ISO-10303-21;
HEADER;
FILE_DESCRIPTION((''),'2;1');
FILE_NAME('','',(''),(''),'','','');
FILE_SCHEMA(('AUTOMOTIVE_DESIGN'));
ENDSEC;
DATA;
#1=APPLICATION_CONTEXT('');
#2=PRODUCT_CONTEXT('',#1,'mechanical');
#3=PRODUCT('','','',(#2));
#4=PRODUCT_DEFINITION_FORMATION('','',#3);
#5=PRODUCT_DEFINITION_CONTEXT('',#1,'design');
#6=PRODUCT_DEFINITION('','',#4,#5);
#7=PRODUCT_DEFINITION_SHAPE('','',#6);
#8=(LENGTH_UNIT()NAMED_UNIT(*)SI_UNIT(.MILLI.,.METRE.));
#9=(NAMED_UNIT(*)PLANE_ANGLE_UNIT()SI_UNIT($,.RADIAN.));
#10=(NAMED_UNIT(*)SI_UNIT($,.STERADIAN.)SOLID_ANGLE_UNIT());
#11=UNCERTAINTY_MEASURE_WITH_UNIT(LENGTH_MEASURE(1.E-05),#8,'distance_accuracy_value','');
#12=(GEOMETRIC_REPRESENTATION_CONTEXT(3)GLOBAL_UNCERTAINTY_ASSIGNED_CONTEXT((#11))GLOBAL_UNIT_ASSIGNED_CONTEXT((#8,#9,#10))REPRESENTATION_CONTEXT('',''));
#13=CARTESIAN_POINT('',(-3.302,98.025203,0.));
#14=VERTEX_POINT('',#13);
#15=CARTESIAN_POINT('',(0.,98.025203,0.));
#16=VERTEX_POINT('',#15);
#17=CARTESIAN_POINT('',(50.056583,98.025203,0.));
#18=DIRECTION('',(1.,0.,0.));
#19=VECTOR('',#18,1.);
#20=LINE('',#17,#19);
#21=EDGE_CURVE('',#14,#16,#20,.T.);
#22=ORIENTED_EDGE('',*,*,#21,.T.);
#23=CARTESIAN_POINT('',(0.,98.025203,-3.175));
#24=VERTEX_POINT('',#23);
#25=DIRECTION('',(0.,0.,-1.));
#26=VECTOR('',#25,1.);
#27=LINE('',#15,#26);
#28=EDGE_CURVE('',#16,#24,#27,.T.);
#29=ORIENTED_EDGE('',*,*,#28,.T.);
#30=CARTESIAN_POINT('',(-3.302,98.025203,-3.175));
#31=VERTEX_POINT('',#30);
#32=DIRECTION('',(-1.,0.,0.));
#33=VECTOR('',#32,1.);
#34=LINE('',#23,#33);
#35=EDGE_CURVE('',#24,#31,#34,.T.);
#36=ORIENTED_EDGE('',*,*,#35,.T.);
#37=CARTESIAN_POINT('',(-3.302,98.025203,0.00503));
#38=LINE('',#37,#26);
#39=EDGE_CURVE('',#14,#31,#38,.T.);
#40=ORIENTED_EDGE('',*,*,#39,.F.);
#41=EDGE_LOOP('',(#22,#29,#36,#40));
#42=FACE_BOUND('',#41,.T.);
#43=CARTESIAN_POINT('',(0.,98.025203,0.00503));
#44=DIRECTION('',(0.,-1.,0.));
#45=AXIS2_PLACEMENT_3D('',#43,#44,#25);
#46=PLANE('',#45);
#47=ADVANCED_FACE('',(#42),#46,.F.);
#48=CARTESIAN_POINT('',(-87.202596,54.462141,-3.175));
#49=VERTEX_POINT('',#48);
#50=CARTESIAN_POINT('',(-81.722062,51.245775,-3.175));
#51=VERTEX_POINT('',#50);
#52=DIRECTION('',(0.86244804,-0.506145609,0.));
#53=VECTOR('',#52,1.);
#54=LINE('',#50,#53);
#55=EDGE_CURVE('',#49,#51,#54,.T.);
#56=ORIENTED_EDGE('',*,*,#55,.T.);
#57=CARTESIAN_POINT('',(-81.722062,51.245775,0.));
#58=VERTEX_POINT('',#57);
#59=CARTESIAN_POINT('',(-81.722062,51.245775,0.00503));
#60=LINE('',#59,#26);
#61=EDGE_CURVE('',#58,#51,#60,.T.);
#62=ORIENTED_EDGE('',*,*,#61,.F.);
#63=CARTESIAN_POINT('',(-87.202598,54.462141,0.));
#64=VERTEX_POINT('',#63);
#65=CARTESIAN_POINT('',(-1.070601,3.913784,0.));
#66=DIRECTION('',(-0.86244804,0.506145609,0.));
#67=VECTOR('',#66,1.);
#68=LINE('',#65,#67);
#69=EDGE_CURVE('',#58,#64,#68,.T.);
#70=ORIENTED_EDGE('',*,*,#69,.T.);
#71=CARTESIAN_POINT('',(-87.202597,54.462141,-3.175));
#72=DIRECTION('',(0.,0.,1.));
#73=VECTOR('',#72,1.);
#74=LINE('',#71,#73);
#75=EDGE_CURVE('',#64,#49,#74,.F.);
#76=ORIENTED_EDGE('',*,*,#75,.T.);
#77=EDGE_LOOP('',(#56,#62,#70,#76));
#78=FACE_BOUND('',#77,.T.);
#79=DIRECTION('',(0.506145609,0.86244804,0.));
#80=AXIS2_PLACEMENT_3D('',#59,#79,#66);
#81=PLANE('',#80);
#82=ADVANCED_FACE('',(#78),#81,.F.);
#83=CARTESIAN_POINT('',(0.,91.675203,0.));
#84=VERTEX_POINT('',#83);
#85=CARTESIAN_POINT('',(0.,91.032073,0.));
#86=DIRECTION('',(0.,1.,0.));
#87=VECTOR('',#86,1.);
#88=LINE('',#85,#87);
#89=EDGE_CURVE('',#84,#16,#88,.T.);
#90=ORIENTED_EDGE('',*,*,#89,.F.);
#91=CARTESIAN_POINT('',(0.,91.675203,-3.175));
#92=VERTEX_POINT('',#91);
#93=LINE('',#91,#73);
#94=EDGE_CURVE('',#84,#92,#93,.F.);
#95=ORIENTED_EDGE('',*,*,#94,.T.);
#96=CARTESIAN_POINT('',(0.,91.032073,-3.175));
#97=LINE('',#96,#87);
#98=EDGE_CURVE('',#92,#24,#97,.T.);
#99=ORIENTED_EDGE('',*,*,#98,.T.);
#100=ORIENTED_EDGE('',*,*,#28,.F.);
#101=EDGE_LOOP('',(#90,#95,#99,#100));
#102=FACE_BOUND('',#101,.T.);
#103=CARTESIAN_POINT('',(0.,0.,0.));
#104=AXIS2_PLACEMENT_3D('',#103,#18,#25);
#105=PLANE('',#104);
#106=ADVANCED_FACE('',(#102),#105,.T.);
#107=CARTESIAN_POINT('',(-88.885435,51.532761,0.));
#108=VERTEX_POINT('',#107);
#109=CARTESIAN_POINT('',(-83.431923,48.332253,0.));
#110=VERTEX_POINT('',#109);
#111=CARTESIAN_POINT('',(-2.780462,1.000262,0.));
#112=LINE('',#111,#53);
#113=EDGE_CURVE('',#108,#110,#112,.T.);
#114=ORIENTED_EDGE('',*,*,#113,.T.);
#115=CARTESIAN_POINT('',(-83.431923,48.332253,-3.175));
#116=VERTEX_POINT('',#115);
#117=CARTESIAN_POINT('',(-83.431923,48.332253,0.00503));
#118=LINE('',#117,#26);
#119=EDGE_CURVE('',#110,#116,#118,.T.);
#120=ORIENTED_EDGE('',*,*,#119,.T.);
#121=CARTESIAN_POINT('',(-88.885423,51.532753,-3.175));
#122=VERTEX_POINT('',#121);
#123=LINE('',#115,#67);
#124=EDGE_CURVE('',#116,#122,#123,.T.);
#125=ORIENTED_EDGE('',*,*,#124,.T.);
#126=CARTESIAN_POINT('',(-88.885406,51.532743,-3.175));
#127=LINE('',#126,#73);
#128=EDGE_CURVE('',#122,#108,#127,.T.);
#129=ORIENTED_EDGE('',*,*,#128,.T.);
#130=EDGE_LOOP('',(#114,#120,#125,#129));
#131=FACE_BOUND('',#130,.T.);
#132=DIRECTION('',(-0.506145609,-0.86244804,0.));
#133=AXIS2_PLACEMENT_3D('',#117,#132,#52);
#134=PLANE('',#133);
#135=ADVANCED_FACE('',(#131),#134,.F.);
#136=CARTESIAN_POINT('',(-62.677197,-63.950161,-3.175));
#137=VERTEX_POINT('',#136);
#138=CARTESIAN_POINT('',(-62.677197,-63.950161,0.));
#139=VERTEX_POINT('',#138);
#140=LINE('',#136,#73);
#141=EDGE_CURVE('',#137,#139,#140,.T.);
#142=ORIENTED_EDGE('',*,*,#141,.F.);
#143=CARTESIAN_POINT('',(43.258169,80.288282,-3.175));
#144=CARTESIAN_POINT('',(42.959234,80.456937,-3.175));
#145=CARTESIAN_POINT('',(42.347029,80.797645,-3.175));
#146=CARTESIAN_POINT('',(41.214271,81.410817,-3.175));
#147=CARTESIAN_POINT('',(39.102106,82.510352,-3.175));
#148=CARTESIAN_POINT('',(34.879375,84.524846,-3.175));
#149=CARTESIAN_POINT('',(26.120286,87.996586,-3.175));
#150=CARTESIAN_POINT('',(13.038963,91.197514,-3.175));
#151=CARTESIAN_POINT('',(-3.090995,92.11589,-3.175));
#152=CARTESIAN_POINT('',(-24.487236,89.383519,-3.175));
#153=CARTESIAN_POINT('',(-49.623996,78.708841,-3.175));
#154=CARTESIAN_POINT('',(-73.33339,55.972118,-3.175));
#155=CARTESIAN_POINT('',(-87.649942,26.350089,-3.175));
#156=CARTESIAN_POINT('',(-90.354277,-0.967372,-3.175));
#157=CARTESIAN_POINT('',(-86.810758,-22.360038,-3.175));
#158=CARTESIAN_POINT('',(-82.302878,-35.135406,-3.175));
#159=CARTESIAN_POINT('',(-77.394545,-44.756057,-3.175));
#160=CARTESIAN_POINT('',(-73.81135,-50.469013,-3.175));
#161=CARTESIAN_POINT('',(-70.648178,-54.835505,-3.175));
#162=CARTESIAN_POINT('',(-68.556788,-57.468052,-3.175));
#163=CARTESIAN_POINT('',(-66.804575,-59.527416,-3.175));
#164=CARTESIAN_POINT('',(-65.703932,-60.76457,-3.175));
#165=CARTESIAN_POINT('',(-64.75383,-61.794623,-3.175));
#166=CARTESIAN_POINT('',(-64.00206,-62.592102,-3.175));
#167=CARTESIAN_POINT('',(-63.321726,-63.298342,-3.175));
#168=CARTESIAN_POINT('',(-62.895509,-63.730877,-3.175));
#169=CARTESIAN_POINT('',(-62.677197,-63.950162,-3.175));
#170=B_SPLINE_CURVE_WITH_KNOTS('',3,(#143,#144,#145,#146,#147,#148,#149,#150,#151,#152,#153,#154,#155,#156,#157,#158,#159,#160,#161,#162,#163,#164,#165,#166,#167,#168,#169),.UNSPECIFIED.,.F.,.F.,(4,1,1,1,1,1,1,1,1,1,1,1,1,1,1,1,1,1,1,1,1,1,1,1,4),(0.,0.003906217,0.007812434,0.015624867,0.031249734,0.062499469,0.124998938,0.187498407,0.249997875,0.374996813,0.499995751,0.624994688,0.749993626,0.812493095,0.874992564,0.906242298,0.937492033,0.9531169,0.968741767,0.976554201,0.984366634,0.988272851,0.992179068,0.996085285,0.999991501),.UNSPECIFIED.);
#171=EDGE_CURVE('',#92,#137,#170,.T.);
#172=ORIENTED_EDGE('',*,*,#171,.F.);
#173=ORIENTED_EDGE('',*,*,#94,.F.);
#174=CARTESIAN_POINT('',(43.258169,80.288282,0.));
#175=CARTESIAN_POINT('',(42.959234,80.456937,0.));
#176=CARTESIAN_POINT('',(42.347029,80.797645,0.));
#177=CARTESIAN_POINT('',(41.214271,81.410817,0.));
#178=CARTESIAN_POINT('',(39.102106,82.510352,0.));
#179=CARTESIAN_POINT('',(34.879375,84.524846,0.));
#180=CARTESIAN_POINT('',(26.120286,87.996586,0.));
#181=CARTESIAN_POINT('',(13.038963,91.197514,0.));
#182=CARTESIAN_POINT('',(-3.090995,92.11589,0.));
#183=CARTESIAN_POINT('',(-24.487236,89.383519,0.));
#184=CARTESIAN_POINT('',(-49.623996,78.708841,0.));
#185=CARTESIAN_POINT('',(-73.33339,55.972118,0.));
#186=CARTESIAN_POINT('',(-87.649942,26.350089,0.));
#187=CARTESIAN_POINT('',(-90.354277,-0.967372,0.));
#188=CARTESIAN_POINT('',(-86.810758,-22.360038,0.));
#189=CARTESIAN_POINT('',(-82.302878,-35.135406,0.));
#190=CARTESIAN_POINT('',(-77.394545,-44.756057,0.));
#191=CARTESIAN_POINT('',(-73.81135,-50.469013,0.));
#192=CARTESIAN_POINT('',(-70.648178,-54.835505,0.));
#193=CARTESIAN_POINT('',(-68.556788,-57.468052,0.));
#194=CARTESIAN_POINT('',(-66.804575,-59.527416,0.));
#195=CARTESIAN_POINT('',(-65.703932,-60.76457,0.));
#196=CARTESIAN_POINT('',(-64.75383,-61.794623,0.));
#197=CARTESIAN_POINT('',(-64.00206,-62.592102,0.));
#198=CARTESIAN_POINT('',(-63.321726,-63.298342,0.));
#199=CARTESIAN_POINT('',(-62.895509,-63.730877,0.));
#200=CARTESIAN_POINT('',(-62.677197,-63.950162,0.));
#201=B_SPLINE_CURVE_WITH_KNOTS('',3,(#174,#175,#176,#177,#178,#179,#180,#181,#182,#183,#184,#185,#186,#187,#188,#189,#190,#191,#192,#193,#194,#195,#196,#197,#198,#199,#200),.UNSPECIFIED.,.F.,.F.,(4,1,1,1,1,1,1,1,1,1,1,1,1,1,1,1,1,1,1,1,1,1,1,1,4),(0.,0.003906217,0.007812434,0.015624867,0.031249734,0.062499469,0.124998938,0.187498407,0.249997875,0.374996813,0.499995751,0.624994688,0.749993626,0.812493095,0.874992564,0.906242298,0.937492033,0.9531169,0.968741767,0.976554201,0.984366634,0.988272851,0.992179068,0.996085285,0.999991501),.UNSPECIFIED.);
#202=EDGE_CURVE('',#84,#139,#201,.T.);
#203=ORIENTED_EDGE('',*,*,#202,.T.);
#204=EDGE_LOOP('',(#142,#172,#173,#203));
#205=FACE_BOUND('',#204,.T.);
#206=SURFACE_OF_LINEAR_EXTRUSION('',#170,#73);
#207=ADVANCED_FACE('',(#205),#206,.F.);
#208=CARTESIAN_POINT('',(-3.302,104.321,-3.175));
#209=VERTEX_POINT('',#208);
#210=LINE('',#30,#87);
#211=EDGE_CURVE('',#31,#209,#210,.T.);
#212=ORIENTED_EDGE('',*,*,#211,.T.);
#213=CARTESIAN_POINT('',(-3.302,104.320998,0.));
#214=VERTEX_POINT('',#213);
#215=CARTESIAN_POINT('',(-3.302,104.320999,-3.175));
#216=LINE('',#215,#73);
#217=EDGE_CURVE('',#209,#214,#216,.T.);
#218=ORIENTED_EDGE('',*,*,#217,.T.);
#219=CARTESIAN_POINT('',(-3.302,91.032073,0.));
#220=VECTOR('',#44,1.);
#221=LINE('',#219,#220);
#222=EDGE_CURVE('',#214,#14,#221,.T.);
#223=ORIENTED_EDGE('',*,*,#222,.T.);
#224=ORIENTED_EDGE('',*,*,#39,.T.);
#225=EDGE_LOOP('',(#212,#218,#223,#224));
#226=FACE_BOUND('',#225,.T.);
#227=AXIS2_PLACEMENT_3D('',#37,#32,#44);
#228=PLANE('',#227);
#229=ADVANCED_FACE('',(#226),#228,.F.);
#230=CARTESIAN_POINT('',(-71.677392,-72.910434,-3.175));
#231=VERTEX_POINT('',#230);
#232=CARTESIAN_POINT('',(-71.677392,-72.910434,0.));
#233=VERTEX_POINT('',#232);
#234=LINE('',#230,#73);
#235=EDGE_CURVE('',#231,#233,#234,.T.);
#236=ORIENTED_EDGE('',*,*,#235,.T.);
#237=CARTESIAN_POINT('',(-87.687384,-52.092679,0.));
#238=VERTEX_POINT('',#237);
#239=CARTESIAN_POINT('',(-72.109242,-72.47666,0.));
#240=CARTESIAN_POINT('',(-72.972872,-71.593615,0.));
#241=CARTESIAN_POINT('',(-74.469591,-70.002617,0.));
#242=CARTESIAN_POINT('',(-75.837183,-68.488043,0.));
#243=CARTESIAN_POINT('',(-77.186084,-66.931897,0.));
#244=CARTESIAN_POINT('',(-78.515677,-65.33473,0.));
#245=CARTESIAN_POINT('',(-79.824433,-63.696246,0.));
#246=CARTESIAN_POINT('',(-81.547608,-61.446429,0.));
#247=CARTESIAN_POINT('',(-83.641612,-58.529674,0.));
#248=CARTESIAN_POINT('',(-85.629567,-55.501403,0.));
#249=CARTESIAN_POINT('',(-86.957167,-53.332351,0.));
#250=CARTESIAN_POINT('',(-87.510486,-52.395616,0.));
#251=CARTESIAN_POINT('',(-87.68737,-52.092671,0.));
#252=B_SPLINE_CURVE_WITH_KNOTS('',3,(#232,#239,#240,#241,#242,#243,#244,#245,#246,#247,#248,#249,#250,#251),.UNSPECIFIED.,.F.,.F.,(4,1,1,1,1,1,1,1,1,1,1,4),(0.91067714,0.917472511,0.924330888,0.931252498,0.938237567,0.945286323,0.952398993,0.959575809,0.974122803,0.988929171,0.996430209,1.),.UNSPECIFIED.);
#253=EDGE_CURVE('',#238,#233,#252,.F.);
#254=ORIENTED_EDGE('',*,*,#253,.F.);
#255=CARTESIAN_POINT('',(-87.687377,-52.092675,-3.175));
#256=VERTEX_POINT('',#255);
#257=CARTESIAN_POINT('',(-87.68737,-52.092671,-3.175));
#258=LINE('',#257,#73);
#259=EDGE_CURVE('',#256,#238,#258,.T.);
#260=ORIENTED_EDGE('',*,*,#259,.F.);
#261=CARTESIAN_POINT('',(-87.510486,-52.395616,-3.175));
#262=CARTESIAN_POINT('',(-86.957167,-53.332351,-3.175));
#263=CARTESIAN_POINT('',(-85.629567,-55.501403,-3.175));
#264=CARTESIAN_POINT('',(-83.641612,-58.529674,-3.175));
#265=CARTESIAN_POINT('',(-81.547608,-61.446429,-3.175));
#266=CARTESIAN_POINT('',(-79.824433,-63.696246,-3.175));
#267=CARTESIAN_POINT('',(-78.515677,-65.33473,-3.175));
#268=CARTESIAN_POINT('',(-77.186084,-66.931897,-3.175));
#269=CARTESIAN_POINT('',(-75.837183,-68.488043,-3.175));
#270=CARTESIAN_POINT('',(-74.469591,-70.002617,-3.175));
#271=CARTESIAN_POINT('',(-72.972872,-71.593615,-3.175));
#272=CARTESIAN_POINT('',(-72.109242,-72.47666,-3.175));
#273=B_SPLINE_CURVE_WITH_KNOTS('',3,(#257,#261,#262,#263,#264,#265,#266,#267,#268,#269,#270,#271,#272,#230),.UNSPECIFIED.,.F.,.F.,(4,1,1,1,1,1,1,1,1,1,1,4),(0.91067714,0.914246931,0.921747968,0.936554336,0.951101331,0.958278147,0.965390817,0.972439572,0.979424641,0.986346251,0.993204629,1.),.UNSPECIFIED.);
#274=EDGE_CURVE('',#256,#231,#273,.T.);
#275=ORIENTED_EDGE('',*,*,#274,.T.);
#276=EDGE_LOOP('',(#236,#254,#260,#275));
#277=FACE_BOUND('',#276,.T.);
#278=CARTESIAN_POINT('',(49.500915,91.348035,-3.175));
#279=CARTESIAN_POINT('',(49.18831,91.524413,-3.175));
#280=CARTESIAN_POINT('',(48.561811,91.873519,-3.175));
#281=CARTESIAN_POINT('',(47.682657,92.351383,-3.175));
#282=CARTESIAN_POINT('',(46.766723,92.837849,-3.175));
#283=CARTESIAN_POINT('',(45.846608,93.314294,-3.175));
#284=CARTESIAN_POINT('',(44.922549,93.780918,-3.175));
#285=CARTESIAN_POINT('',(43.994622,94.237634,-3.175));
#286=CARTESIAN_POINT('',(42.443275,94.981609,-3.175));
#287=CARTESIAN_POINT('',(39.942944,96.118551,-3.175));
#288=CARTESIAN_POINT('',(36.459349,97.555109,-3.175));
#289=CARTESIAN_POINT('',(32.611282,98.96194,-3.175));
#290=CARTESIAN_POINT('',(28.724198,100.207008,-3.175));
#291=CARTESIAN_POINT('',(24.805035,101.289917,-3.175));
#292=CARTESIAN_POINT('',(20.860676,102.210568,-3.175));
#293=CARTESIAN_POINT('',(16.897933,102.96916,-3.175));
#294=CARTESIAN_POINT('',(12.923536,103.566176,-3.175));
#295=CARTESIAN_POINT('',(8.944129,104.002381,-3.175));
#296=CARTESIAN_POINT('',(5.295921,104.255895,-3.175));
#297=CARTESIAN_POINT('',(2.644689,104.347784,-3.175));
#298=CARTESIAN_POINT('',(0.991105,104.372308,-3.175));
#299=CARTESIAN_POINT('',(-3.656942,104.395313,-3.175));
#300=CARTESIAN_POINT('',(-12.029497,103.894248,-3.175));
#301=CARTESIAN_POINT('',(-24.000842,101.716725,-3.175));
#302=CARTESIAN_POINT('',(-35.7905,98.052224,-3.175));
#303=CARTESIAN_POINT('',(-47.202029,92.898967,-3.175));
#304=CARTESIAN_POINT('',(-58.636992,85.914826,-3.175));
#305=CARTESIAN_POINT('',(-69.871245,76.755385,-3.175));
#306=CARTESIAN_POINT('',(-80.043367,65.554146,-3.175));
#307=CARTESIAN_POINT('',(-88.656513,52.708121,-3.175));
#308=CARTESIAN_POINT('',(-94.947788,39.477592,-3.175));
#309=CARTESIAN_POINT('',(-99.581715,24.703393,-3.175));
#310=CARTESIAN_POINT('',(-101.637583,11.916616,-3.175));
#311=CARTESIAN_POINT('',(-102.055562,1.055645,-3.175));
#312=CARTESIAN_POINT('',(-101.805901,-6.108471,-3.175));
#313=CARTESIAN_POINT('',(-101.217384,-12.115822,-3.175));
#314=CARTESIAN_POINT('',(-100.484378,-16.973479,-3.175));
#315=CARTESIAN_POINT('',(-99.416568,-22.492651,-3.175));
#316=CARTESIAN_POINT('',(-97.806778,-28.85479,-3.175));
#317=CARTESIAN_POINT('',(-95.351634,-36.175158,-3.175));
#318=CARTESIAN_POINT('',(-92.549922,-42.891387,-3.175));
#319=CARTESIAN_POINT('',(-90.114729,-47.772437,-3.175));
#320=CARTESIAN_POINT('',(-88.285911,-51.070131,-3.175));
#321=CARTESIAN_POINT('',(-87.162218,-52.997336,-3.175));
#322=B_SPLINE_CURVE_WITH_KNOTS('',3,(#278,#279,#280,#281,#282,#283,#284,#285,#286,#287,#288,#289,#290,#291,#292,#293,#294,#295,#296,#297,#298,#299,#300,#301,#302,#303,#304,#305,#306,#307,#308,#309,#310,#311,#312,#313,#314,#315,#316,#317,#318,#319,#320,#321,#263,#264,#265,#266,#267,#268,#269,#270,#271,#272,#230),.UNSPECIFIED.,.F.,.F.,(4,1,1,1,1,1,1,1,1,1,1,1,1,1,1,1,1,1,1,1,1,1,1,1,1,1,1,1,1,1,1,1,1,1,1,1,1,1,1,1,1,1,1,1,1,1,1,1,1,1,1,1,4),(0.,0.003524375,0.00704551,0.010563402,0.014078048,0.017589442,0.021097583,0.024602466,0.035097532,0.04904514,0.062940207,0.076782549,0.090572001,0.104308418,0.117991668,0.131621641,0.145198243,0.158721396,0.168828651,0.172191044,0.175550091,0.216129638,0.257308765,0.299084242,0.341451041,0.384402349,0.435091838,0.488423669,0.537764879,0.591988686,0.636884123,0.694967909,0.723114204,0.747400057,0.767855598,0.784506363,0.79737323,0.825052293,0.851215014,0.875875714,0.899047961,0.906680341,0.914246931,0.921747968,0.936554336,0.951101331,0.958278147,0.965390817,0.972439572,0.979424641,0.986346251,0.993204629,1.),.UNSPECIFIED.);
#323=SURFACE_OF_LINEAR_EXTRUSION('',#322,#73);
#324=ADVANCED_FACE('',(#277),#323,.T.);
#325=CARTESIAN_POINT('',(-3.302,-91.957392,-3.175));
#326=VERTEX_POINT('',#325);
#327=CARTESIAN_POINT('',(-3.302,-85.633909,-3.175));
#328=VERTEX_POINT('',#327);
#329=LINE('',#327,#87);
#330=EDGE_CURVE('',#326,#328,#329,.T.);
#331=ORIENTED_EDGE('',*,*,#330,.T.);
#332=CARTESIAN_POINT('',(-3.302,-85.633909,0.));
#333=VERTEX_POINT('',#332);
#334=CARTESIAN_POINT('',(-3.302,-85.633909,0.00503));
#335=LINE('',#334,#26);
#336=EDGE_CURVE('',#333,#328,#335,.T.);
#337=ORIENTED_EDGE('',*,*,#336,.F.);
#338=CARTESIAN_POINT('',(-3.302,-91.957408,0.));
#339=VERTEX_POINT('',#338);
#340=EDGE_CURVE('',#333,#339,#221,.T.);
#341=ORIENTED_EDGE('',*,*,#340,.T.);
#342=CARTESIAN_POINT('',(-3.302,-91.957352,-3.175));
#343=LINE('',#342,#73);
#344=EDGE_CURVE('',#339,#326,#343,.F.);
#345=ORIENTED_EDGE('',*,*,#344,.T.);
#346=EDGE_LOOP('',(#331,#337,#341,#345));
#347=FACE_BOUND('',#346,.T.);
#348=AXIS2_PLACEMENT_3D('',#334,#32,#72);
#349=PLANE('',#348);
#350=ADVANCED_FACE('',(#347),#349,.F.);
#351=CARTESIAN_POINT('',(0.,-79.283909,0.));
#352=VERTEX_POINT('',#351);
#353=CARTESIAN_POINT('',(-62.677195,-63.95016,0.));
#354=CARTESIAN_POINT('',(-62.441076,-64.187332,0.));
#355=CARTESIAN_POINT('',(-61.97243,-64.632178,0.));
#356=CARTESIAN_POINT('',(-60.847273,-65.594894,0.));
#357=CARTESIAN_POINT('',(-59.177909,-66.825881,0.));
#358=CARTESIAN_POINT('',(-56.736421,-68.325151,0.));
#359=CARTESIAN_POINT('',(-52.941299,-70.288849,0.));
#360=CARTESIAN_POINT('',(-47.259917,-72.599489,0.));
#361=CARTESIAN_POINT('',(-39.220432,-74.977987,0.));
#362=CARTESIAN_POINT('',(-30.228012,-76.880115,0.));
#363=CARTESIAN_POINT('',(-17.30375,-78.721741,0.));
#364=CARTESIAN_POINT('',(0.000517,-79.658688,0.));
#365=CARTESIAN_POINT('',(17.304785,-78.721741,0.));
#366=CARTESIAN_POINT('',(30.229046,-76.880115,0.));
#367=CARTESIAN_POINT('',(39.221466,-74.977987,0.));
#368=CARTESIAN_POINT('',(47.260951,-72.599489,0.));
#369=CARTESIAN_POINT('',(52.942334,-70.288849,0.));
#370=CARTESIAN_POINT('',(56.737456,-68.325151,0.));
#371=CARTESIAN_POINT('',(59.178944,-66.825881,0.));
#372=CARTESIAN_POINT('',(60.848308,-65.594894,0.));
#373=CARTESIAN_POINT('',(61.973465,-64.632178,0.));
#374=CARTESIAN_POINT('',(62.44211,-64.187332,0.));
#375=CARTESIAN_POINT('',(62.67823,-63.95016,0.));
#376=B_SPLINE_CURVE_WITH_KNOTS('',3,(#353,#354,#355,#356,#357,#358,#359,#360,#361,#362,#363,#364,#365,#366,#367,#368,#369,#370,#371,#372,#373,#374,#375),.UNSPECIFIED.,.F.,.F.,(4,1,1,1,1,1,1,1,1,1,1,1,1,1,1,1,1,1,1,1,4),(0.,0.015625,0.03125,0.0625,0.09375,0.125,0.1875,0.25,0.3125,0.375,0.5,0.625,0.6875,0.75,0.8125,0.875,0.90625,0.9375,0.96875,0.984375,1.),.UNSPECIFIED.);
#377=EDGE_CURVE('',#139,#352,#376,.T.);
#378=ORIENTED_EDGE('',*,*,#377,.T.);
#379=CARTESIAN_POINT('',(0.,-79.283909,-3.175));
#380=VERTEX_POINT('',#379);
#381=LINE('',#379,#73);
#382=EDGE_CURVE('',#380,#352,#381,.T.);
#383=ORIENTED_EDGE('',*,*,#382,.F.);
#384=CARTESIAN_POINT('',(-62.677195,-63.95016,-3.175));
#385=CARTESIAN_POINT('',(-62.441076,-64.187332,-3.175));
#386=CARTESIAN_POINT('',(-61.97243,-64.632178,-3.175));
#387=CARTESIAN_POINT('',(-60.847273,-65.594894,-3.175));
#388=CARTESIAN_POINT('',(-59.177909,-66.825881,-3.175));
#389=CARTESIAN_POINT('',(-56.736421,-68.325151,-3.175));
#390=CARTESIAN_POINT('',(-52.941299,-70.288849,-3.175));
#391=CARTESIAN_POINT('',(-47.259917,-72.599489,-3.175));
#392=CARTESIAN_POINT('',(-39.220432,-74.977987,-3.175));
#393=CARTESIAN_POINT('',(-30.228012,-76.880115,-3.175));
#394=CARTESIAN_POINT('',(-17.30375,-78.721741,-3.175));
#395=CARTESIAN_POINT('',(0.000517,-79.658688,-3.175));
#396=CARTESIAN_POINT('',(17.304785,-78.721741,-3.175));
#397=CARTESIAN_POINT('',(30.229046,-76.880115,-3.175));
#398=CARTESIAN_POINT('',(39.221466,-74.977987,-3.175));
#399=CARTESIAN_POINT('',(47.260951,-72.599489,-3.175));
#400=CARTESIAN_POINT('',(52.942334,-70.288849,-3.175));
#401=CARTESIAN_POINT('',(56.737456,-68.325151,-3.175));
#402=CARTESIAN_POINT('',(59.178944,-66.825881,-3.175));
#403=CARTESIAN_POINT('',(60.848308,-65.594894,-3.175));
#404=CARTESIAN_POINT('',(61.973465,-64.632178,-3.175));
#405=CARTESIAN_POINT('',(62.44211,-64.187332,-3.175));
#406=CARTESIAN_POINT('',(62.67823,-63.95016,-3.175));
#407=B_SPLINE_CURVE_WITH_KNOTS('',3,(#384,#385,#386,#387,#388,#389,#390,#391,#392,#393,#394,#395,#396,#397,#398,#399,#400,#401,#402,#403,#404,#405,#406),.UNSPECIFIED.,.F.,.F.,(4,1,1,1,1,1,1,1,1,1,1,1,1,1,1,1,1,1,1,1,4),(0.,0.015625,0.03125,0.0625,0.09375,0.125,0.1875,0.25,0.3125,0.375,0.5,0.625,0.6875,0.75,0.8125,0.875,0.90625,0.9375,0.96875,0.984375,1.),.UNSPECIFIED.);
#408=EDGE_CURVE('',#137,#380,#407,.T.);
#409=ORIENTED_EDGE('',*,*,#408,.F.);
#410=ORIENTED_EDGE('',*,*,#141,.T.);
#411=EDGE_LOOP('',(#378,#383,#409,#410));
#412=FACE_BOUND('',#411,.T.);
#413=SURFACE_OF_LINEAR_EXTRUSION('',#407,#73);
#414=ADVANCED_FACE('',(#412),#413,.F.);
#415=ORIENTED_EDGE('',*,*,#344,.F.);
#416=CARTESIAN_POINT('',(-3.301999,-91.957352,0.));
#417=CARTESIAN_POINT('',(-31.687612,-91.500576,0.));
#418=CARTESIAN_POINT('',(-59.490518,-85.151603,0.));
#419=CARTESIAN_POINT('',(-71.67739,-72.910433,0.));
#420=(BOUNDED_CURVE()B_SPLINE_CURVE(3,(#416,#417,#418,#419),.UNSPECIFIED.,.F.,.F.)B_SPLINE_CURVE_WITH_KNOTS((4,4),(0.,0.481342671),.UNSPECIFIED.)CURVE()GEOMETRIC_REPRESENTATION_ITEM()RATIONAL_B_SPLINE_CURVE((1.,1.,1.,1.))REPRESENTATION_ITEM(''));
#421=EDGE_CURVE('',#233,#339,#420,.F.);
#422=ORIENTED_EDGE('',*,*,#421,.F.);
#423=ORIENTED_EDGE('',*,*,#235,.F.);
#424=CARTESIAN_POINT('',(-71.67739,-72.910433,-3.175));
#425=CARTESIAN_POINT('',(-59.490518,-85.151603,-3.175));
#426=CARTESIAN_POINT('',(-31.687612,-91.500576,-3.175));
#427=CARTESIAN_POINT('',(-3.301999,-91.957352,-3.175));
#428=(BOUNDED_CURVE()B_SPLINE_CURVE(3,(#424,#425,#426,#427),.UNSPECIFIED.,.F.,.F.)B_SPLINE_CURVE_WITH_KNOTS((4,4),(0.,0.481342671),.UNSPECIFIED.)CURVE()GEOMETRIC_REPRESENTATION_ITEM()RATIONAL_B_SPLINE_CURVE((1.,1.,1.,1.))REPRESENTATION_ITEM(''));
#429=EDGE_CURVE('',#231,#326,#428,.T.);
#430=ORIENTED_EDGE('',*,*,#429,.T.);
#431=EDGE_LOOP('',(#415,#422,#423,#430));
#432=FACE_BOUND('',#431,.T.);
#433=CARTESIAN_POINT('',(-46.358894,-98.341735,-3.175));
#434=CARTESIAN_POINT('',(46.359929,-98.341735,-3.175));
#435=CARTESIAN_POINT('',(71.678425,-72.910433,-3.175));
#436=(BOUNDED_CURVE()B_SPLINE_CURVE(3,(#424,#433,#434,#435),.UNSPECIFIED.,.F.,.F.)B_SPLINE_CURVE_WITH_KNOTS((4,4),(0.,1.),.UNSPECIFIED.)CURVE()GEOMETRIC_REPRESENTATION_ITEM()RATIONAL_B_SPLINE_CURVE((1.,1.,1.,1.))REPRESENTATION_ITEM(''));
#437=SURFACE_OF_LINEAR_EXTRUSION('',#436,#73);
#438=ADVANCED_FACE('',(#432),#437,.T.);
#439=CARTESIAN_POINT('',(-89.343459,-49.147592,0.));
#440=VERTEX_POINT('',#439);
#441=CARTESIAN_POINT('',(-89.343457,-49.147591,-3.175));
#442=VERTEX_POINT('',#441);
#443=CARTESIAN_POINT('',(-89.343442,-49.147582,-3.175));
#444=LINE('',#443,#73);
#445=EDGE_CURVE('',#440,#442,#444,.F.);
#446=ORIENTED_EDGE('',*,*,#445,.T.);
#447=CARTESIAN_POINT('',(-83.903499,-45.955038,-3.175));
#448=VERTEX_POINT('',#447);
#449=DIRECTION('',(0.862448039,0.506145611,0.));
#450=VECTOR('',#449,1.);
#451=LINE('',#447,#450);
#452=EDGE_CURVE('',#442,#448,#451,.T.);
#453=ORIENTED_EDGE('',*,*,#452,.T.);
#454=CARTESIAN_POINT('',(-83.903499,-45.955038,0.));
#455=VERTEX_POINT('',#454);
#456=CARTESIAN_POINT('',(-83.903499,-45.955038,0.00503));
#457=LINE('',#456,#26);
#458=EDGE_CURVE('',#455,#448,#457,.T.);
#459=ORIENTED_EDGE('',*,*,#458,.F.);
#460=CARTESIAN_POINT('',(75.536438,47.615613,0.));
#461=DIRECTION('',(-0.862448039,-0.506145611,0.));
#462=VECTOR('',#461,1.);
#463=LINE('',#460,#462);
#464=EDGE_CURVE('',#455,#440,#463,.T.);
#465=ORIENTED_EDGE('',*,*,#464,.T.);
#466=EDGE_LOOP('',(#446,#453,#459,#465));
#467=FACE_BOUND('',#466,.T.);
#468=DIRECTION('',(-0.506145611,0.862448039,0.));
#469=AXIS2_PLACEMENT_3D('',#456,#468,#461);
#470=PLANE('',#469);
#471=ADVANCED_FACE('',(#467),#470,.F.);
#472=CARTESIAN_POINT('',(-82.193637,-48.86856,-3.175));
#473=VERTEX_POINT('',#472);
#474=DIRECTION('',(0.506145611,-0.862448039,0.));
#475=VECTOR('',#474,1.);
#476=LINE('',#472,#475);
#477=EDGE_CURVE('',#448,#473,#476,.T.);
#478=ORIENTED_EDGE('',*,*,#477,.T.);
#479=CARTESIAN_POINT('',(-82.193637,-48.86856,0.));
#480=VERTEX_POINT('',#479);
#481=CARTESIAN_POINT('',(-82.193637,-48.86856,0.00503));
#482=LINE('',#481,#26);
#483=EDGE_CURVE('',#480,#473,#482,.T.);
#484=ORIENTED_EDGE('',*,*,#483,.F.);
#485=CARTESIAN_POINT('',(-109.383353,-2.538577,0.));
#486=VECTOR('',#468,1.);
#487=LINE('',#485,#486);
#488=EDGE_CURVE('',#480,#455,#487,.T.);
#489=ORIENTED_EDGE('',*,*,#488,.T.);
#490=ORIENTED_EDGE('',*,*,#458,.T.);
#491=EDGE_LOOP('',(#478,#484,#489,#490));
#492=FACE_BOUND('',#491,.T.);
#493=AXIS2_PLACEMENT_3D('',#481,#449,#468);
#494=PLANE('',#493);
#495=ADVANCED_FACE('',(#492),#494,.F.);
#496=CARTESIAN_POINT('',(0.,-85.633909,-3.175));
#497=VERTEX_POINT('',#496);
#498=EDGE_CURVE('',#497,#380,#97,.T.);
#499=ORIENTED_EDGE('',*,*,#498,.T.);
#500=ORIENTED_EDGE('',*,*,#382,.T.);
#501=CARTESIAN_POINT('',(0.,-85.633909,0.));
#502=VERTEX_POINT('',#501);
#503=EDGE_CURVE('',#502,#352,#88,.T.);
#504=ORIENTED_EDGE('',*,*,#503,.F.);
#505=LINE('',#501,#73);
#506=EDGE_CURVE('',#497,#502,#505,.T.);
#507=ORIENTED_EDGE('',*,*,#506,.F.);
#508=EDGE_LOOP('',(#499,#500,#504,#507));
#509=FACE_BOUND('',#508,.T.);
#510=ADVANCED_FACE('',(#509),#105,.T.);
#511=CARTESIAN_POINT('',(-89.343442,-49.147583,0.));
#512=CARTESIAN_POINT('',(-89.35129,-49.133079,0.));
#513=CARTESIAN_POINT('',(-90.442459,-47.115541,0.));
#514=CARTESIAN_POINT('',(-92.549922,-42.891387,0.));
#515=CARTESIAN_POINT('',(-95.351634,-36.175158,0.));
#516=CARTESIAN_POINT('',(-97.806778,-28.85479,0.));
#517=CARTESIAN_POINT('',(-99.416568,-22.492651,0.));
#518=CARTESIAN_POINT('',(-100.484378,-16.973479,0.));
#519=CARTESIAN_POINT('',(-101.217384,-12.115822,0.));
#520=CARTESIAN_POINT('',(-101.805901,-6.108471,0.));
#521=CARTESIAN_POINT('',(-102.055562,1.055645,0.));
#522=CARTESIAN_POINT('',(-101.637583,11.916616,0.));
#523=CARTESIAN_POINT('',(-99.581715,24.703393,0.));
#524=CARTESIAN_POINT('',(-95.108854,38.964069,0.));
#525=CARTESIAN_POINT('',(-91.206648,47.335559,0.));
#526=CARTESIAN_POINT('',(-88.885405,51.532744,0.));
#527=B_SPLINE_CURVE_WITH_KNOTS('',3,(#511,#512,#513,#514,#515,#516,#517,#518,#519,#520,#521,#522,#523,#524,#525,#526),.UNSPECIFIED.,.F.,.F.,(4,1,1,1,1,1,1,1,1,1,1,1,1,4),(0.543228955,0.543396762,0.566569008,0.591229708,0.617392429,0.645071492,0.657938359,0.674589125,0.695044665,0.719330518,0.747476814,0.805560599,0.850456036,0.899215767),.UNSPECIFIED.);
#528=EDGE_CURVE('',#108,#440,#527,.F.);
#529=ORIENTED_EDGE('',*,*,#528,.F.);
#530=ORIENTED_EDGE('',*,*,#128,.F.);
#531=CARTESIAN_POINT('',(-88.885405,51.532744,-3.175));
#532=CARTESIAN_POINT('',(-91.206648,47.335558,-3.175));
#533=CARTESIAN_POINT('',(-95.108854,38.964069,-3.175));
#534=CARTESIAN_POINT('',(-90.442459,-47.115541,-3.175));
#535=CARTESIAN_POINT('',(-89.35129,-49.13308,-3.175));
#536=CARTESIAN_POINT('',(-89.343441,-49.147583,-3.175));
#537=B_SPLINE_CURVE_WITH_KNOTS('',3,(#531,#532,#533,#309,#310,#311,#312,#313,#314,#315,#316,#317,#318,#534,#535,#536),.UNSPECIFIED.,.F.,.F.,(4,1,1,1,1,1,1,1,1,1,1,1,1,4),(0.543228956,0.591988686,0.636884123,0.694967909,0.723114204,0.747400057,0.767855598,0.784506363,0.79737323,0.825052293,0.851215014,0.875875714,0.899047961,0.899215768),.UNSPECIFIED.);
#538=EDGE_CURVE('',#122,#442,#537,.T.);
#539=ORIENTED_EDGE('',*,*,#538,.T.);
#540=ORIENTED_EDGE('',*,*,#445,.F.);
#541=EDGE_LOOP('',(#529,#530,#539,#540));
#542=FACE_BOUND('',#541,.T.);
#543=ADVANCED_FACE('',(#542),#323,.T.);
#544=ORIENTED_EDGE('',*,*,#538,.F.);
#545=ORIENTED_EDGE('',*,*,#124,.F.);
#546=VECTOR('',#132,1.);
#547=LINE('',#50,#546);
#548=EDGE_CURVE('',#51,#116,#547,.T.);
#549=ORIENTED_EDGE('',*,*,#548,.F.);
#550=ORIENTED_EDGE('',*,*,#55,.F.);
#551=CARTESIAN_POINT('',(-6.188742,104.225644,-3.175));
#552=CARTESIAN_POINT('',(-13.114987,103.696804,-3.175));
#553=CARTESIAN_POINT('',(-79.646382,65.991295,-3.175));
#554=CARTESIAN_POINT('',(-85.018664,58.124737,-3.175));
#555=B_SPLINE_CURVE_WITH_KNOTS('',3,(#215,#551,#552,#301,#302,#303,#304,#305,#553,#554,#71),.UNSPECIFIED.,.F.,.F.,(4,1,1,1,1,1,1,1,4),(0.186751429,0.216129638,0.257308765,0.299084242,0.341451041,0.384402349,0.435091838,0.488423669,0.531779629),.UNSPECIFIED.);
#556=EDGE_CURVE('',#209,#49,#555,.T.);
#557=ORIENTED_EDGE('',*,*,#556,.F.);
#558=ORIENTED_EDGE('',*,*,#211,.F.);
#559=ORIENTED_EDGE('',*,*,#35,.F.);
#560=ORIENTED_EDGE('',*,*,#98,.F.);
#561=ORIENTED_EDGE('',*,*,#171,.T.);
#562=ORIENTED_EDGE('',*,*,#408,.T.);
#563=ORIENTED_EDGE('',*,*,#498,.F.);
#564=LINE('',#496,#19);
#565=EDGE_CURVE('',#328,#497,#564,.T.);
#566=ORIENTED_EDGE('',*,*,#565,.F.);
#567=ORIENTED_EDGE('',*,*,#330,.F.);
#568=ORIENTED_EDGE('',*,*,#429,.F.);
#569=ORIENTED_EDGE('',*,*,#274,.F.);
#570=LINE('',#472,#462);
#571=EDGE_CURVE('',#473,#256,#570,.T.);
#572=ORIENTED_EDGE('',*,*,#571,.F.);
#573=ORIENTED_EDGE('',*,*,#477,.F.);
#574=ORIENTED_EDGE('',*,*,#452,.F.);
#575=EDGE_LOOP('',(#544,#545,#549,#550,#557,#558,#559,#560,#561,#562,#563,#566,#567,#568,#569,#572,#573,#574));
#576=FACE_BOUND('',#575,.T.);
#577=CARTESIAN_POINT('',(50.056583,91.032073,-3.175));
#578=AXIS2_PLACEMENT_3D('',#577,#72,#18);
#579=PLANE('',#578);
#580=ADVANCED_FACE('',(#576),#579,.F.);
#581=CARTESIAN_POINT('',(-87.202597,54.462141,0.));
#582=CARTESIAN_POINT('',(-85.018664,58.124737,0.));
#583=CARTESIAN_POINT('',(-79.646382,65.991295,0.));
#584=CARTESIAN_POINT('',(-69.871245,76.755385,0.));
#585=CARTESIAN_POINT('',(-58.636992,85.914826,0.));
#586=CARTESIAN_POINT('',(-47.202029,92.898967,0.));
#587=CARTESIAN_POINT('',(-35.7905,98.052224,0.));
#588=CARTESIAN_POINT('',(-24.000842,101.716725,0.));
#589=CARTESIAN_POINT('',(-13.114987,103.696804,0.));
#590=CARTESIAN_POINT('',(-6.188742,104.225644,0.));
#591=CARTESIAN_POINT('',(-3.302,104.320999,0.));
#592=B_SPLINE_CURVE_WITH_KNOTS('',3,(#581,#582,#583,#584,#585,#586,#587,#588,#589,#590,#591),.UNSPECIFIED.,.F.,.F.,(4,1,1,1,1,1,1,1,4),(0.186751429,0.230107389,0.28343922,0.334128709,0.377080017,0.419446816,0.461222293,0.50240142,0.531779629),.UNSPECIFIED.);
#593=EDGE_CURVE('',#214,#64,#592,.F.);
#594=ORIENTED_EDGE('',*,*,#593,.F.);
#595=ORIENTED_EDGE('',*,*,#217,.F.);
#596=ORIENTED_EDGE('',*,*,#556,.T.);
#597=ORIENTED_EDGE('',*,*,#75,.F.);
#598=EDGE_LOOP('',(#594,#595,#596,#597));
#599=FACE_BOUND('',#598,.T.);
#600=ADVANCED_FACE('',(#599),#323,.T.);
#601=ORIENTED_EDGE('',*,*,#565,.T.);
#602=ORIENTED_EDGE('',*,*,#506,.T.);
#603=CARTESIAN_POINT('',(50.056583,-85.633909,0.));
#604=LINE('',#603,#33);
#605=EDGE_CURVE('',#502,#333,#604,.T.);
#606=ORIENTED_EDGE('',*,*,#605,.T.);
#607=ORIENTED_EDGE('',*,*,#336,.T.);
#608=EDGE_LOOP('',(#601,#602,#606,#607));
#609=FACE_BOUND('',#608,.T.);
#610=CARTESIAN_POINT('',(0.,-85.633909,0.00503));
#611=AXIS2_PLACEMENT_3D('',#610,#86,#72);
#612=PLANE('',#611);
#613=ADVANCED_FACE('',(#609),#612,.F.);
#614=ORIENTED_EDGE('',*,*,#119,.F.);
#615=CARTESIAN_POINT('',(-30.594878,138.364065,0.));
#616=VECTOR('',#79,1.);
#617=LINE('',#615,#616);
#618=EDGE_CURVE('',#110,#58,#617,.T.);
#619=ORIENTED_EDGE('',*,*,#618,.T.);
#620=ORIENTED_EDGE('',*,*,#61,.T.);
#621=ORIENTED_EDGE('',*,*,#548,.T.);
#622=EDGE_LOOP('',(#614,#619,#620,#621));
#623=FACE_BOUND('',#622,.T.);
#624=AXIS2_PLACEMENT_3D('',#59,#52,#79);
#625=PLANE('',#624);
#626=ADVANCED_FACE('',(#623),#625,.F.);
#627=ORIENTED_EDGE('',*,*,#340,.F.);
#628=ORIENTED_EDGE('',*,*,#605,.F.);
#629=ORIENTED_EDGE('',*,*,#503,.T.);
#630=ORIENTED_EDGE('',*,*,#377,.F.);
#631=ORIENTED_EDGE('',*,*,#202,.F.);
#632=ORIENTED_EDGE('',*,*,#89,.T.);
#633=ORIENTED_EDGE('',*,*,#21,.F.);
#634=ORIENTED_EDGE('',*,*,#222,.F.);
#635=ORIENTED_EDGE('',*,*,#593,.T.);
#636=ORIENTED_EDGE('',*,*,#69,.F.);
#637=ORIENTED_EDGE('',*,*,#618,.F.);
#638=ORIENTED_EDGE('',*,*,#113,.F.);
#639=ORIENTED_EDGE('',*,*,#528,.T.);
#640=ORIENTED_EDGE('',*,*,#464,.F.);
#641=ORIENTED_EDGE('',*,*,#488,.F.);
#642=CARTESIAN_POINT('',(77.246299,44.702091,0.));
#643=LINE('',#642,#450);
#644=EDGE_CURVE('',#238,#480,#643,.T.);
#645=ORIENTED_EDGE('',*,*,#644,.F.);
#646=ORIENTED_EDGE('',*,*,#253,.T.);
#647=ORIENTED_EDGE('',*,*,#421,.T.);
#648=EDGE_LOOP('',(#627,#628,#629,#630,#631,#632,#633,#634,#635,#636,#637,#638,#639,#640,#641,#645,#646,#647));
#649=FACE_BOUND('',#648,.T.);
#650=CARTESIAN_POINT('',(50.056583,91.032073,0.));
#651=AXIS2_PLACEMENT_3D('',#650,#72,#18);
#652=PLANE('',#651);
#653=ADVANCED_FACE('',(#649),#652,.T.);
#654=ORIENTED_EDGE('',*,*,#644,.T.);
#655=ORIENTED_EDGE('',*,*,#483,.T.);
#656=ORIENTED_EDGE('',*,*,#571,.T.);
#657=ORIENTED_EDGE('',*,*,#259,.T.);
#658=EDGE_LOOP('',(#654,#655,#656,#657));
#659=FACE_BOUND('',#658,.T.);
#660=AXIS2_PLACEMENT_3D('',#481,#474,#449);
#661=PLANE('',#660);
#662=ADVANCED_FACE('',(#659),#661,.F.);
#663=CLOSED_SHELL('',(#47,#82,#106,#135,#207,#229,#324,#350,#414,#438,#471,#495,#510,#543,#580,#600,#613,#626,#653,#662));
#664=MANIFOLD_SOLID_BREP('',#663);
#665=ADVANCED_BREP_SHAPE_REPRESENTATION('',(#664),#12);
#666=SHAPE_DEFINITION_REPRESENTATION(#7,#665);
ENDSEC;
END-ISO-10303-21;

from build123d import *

# Parameters (mm, degrees)
BOSS_EXTRUDE1_DEPTH = 3.175
SKETCH3_W           = 129.389558459
SKETCH3_H           = 294.720660933
CUT_EXTRUDE1_DEPTH  = 102.960845412
SKETCH4_W           = 3.302
SKETCH4_H           = 12.7
CUT_EXTRUDE2_DEPTH  = 4.1750001


with BuildPart() as part:
    # Sketch2 → Boss-Extrude1 (new body)
    with BuildSketch(Plane.XY):
        with BuildLine():
            add(Edge.make_bspline(
                [(-71.677392112, -72.91043434), (-72.109242456, -72.4766599), (-72.972872043, -71.593614958), (-74.469591152, -70.002616718), (-75.837182996, -68.488043391), (-77.186084408, -66.931897067), (-78.515677479, -65.334729876), (-79.824432739, -63.69624614), (-81.54760822, -61.446428575), (-83.64161213, -58.529673548), (-85.629566809, -55.501403393), (-87.162218254, -52.997335562), (-88.285911427, -51.070131488), (-90.114728738, -47.772436811), (-92.549922179, -42.891387424), (-95.3516338, -36.175158441), (-97.806777615, -28.854790192), (-99.416568113, -22.492651102), (-100.484378106, -16.973479224), (-101.217383692, -12.115821661), (-101.805900705, -6.108471449), (-102.055561509, 1.055644647), (-101.63758347, 11.916616183), (-99.581715265, 24.703392789), (-94.947787628, 39.477591596), (-88.656512854, 52.708120751), (-80.043367163, 65.554146484), (-69.871244821, 76.755385293), (-58.636991603, 85.914826096), (-47.202028885, 92.898966836), (-35.790499648, 98.052224226), (-24.000842482, 101.716725174), (-12.029496563, 103.894248368), (-3.656941748, 104.395312689), (0.99110515, 104.372307848), (2.644688984, 104.347784008), (5.295920706, 104.255895368), (8.944129249, 104.002381094), (12.923536456, 103.566176285), (16.897932891, 102.969160213), (20.860675893, 102.210568115), (24.80503533, 101.28991654), (28.724197829, 100.207008268), (32.611281662, 98.961940132), (36.459348765, 97.555109249), (39.942943882, 96.118550993), (42.44327487, 94.981609399), (43.99462248, 94.237634049), (44.922549304, 93.78091779), (45.846607961, 93.314294304), (46.766722746, 92.837849145), (47.682656642, 92.351383169), (48.561810847, 91.873519084), (49.188310006, 91.524412896), (49.500915025, 91.348034768)],
                knots=[0, 0, 0, 0, 0.006795371, 0.013653749, 0.020575359, 0.027560428, 0.034609183, 0.041721853, 0.048898669, 0.063445664, 0.078252032, 0.085753069, 0.093319659, 0.100952039, 0.124124286, 0.148784986, 0.174947707, 0.20262677, 0.215493637, 0.232144402, 0.252599943, 0.276885796, 0.305032091, 0.363115877, 0.408011314, 0.462235121, 0.511576331, 0.564908162, 0.615597651, 0.658548959, 0.700915758, 0.742691235, 0.783870362, 0.824449909, 0.827808956, 0.831171349, 0.841278604, 0.854801757, 0.868378359, 0.882008332, 0.895691582, 0.909427999, 0.923217451, 0.937059793, 0.95095486, 0.964902468, 0.975397534, 0.978902417, 0.982410558, 0.985921952, 0.989436598, 0.99295449, 0.996475625, 1, 1, 1, 1], degree=3))
            add(Edge.make_bspline(
                [(49.500915025, 91.348034768), (49.872005924, 91.138482333), (50.241810712, 90.926750039), (50.610303013, 90.712853821)],
                knots=[0, 0, 0, 0, 1, 1, 1, 1], degree=3))
            add(Edge.make_bspline(
                [(50.610303013, 90.712853821), (51.128442093, 90.411846037), (52.167202685, 89.796039228), (53.932536969, 88.703576387), (55.579762788, 87.638711627), (57.218137155, 86.533145805), (58.847026669, 85.387425363), (60.465187486, 84.201108463), (62.61485058, 82.559008476), (65.268683437, 80.403244909), (68.38020159, 77.661045558), (71.420405526, 74.753669295), (74.379227375, 71.68115848), (77.246352549, 68.444125522), (79.542797672, 65.619898893), (81.324264236, 63.280297585), (82.635173495, 61.479754257), (83.915139631, 59.639466174), (85.682600666, 56.976700672), (87.896856718, 53.369477174), (90.462597049, 48.676901727), (92.889220315, 43.626105667), (95.132677705, 38.215723181), (97.146538959, 32.44823322), (98.88212407, 26.330630408), (100.289240179, 19.875099059), (101.25863273, 13.473856941), (101.817336128, 7.24671143), (102.015185645, 1.305015561), (101.87858065, -4.624237286), (101.39263307, -10.734726225), (100.537146292, -16.867570025), (99.329398352, -22.86381348), (97.893600846, -28.372193875), (96.656960211, -32.269847721), (95.785564151, -34.744415114), (95.0459628, -36.764317914), (93.953188789, -39.535816997), (92.43580554, -43.007047711), (90.821696456, -46.36490671), (89.118620831, -49.608230444), (87.334164726, -52.736260206), (85.475724639, -55.748623833), (83.55049497, -58.64531039), (81.56545684, -61.42664709), (79.307705413, -64.380683017), (77.436977348, -66.647222523), (76.007346494, -68.288860963), (75.29509586, -69.089727056), (74.579038656, -69.87823774), (73.859443089, -70.654502436), (73.136338858, -71.418398838), (72.317504882, -72.264736672), (71.891235125, -72.69667798), (71.678426975, -72.91043429)],
                knots=[0, 0, 0, 0, 0.010157109, 0.020393378, 0.030708694, 0.04110294, 0.051575992, 0.062127721, 0.072757993, 0.094253595, 0.116061609, 0.138180754, 0.160609666, 0.183346893, 0.206390897, 0.218027437, 0.229740057, 0.241528542, 0.253392669, 0.280162256, 0.30828042, 0.337739229, 0.368530108, 0.400643849, 0.434070605, 0.468799897, 0.504820602, 0.536144777, 0.567394405, 0.598569553, 0.629670285, 0.664058743, 0.696204476, 0.726123241, 0.753829745, 0.760691378, 0.767515904, 0.787767528, 0.807687634, 0.827278023, 0.846540474, 0.865476741, 0.88408856, 0.902377642, 0.920345676, 0.937994331, 0.961031903, 0.966703489, 0.972340071, 0.97794171, 0.983508463, 0.989040391, 0.99453755, 1, 1, 1, 1], degree=3))
            add(Edge.make_bspline(
                [(71.678426975, -72.91043429), (46.359928794, -98.341734638), (-46.358893881, -98.341734638), (-71.677392112, -72.91043434)],
                knots=[0, 0, 0, 0, 1, 1, 1, 1], degree=3, weights=[1, 1, 1, 1]))
        make_face()
        with BuildLine():
            add(Edge.make_bspline(
                [(-62.677197057, -63.950161522), (-62.895509204, -63.730876692), (-63.321725733, -63.298342375), (-64.002059554, -62.592101669), (-64.753829554, -61.794622516), (-65.703931611, -60.764569773), (-66.804574903, -59.527416198), (-68.556788175, -57.468052236), (-70.648178443, -54.835505477), (-73.811350461, -50.469012961), (-77.394544541, -44.756057433), (-82.302878117, -35.13540616), (-86.810757895, -22.360038108), (-90.354277409, -0.967371821), (-87.649941962, 26.350088977), (-73.333390238, 55.972118358), (-49.623996274, 78.708841275), (-24.487235723, 89.383519301), (-3.090994932, 92.115890306), (13.038963103, 91.197514401), (26.120286031, 87.996586306), (34.879374941, 84.524845656), (39.102105625, 82.510352052), (41.214271269, 81.410816796), (42.347028641, 80.797644792), (42.959233617, 80.456937494), (43.258169219, 80.288282027)],
                knots=[0, 0, 0, 0, 0.003906217, 0.007812434, 0.01171865, 0.015624867, 0.023437301, 0.031249734, 0.046874602, 0.062499469, 0.093749203, 0.124998938, 0.187498407, 0.249997875, 0.374996813, 0.499995751, 0.624994688, 0.749993626, 0.812493095, 0.874992564, 0.937492033, 0.968741767, 0.984366634, 0.992179068, 0.996085285, 0.999991501, 0.999991501, 0.999991501, 0.999991501], degree=3))
            add(Edge.make_bspline(
                [(43.258169219, 80.288282027), (43.339663738, 80.24226006), (43.502520945, 80.149972739), (43.746371392, 80.01083423), (43.989796594, 79.870982545), (44.151786326, 79.777278604), (44.232713854, 79.73030574)],
                knots=[0.002022438, 0.002022438, 0.002022438, 0.002022438, 0.251013535, 0.500004632, 0.748995729, 0.997986827, 0.997986827, 0.997986827, 0.997986827], degree=3))
            add(Edge.make_bspline(
                [(44.232713854, 79.73030574), (44.58444416, 79.525959484), (45.259622085, 79.127643656), (46.415361761, 78.422292298), (47.573803007, 77.692810893), (49.007921659, 76.758403592), (50.804832808, 75.530634538), (53.607223777, 73.493209173), (57.003409969, 70.790302329), (64.764138566, 63.842060668), (74.853642347, 51.769295456), (84.311822541, 33.000711524), (89.302574517, 12.581832114), (89.594071681, -8.463887057), (85.167338267, -29.022546245), (78.471156755, -43.288686452), (72.737789819, -52.004533398), (70.145497848, -55.492337454), (67.954788222, -58.18874646), (66.537169113, -59.834423786), (65.376799992, -61.124092609), (64.636118066, -61.923784826), (64.04885936, -62.544039678), (63.540759488, -63.072130947), (63.065749199, -63.559376825), (62.8132246, -63.814567336), (62.678231924, -63.950161468)],
                knots=[1.4601e-05, 1.4601e-05, 1.4601e-05, 1.4601e-05, 0.007826987, 0.015639373, 0.023451759, 0.031264145, 0.046888916, 0.062513688, 0.093763232, 0.125012776, 0.250010951, 0.375009125, 0.5000073, 0.625005475, 0.75000365, 0.875001825, 0.906251369, 0.937500913, 0.953125684, 0.968750456, 0.976562842, 0.984375228, 0.988281421, 0.992187614, 0.996093807, 1, 1, 1, 1], degree=3))
            add(Edge.make_bspline(
                [(62.678231924, -63.950161468), (62.442110433, -64.187331736), (61.973465348, -64.632177633), (60.848308103, -65.594894105), (59.178943877, -66.825880953), (56.737455869, -68.325151322), (52.942333804, -70.28884928), (47.260951473, -72.599488515), (39.221466424, -74.977986937), (30.229046438, -76.880115217), (17.304785319, -78.721740765), (0.000517457, -79.658688067), (-17.303750406, -78.721740765), (-30.228011525, -76.880115217), (-39.22043151, -74.977986937), (-47.25991656, -72.599488515), (-52.941298891, -70.28884928), (-56.736420955, -68.325151322), (-59.177908963, -66.825880953), (-60.84727319, -65.594894105), (-61.972430435, -64.632177633), (-62.441075519, -64.187331736), (-62.677197057, -63.950161522)],
                knots=[0, 0, 0, 0, 0.015625, 0.03125, 0.0625, 0.09375, 0.125, 0.1875, 0.25, 0.3125, 0.375, 0.5, 0.625, 0.6875, 0.75, 0.8125, 0.875, 0.90625, 0.9375, 0.96875, 0.984375, 1, 1, 1, 1], degree=3))
        make_face(mode=Mode.SUBTRACT)
    extrude(amount=-BOSS_EXTRUDE1_DEPTH)

    # Sketch3 → Cut-Extrude1 (cut, through all)
    with BuildSketch(Plane(origin=(0, 0, 0), x_dir=(0, 0, -1), z_dir=(1, 0, 0))):
        with Locations((3.684090068, 10.698040846)):
            Rectangle(SKETCH3_W, SKETCH3_H)
    extrude(amount=CUT_EXTRUDE1_DEPTH, mode=Mode.SUBTRACT)

    # Sketch4 → Cut-Extrude2 (cut, through all)
    with BuildSketch(Plane(origin=(0, 0, -3.175), x_dir=(-1, 0, 0), z_dir=(0, 0, -1))):
        with Locations((1.651, 104.37520294)):
            Rectangle(SKETCH4_W, SKETCH4_H)
        Polygon((81.722062158, 51.245774998), (83.431923254, 48.332253027), (94.385013368, 54.760302263), (92.675152271, 57.673824233), align=None)
        Polygon((82.193637427, -48.868559709), (83.903498529, -45.955037742), (94.85658863, -52.383086998), (93.146727528, -55.296608965), align=None)
        with Locations((1.651, -91.983909146)):
            Rectangle(SKETCH4_W, SKETCH4_H)
    extrude(amount=-CUT_EXTRUDE2_DEPTH, mode=Mode.SUBTRACT)


solid = part.part
